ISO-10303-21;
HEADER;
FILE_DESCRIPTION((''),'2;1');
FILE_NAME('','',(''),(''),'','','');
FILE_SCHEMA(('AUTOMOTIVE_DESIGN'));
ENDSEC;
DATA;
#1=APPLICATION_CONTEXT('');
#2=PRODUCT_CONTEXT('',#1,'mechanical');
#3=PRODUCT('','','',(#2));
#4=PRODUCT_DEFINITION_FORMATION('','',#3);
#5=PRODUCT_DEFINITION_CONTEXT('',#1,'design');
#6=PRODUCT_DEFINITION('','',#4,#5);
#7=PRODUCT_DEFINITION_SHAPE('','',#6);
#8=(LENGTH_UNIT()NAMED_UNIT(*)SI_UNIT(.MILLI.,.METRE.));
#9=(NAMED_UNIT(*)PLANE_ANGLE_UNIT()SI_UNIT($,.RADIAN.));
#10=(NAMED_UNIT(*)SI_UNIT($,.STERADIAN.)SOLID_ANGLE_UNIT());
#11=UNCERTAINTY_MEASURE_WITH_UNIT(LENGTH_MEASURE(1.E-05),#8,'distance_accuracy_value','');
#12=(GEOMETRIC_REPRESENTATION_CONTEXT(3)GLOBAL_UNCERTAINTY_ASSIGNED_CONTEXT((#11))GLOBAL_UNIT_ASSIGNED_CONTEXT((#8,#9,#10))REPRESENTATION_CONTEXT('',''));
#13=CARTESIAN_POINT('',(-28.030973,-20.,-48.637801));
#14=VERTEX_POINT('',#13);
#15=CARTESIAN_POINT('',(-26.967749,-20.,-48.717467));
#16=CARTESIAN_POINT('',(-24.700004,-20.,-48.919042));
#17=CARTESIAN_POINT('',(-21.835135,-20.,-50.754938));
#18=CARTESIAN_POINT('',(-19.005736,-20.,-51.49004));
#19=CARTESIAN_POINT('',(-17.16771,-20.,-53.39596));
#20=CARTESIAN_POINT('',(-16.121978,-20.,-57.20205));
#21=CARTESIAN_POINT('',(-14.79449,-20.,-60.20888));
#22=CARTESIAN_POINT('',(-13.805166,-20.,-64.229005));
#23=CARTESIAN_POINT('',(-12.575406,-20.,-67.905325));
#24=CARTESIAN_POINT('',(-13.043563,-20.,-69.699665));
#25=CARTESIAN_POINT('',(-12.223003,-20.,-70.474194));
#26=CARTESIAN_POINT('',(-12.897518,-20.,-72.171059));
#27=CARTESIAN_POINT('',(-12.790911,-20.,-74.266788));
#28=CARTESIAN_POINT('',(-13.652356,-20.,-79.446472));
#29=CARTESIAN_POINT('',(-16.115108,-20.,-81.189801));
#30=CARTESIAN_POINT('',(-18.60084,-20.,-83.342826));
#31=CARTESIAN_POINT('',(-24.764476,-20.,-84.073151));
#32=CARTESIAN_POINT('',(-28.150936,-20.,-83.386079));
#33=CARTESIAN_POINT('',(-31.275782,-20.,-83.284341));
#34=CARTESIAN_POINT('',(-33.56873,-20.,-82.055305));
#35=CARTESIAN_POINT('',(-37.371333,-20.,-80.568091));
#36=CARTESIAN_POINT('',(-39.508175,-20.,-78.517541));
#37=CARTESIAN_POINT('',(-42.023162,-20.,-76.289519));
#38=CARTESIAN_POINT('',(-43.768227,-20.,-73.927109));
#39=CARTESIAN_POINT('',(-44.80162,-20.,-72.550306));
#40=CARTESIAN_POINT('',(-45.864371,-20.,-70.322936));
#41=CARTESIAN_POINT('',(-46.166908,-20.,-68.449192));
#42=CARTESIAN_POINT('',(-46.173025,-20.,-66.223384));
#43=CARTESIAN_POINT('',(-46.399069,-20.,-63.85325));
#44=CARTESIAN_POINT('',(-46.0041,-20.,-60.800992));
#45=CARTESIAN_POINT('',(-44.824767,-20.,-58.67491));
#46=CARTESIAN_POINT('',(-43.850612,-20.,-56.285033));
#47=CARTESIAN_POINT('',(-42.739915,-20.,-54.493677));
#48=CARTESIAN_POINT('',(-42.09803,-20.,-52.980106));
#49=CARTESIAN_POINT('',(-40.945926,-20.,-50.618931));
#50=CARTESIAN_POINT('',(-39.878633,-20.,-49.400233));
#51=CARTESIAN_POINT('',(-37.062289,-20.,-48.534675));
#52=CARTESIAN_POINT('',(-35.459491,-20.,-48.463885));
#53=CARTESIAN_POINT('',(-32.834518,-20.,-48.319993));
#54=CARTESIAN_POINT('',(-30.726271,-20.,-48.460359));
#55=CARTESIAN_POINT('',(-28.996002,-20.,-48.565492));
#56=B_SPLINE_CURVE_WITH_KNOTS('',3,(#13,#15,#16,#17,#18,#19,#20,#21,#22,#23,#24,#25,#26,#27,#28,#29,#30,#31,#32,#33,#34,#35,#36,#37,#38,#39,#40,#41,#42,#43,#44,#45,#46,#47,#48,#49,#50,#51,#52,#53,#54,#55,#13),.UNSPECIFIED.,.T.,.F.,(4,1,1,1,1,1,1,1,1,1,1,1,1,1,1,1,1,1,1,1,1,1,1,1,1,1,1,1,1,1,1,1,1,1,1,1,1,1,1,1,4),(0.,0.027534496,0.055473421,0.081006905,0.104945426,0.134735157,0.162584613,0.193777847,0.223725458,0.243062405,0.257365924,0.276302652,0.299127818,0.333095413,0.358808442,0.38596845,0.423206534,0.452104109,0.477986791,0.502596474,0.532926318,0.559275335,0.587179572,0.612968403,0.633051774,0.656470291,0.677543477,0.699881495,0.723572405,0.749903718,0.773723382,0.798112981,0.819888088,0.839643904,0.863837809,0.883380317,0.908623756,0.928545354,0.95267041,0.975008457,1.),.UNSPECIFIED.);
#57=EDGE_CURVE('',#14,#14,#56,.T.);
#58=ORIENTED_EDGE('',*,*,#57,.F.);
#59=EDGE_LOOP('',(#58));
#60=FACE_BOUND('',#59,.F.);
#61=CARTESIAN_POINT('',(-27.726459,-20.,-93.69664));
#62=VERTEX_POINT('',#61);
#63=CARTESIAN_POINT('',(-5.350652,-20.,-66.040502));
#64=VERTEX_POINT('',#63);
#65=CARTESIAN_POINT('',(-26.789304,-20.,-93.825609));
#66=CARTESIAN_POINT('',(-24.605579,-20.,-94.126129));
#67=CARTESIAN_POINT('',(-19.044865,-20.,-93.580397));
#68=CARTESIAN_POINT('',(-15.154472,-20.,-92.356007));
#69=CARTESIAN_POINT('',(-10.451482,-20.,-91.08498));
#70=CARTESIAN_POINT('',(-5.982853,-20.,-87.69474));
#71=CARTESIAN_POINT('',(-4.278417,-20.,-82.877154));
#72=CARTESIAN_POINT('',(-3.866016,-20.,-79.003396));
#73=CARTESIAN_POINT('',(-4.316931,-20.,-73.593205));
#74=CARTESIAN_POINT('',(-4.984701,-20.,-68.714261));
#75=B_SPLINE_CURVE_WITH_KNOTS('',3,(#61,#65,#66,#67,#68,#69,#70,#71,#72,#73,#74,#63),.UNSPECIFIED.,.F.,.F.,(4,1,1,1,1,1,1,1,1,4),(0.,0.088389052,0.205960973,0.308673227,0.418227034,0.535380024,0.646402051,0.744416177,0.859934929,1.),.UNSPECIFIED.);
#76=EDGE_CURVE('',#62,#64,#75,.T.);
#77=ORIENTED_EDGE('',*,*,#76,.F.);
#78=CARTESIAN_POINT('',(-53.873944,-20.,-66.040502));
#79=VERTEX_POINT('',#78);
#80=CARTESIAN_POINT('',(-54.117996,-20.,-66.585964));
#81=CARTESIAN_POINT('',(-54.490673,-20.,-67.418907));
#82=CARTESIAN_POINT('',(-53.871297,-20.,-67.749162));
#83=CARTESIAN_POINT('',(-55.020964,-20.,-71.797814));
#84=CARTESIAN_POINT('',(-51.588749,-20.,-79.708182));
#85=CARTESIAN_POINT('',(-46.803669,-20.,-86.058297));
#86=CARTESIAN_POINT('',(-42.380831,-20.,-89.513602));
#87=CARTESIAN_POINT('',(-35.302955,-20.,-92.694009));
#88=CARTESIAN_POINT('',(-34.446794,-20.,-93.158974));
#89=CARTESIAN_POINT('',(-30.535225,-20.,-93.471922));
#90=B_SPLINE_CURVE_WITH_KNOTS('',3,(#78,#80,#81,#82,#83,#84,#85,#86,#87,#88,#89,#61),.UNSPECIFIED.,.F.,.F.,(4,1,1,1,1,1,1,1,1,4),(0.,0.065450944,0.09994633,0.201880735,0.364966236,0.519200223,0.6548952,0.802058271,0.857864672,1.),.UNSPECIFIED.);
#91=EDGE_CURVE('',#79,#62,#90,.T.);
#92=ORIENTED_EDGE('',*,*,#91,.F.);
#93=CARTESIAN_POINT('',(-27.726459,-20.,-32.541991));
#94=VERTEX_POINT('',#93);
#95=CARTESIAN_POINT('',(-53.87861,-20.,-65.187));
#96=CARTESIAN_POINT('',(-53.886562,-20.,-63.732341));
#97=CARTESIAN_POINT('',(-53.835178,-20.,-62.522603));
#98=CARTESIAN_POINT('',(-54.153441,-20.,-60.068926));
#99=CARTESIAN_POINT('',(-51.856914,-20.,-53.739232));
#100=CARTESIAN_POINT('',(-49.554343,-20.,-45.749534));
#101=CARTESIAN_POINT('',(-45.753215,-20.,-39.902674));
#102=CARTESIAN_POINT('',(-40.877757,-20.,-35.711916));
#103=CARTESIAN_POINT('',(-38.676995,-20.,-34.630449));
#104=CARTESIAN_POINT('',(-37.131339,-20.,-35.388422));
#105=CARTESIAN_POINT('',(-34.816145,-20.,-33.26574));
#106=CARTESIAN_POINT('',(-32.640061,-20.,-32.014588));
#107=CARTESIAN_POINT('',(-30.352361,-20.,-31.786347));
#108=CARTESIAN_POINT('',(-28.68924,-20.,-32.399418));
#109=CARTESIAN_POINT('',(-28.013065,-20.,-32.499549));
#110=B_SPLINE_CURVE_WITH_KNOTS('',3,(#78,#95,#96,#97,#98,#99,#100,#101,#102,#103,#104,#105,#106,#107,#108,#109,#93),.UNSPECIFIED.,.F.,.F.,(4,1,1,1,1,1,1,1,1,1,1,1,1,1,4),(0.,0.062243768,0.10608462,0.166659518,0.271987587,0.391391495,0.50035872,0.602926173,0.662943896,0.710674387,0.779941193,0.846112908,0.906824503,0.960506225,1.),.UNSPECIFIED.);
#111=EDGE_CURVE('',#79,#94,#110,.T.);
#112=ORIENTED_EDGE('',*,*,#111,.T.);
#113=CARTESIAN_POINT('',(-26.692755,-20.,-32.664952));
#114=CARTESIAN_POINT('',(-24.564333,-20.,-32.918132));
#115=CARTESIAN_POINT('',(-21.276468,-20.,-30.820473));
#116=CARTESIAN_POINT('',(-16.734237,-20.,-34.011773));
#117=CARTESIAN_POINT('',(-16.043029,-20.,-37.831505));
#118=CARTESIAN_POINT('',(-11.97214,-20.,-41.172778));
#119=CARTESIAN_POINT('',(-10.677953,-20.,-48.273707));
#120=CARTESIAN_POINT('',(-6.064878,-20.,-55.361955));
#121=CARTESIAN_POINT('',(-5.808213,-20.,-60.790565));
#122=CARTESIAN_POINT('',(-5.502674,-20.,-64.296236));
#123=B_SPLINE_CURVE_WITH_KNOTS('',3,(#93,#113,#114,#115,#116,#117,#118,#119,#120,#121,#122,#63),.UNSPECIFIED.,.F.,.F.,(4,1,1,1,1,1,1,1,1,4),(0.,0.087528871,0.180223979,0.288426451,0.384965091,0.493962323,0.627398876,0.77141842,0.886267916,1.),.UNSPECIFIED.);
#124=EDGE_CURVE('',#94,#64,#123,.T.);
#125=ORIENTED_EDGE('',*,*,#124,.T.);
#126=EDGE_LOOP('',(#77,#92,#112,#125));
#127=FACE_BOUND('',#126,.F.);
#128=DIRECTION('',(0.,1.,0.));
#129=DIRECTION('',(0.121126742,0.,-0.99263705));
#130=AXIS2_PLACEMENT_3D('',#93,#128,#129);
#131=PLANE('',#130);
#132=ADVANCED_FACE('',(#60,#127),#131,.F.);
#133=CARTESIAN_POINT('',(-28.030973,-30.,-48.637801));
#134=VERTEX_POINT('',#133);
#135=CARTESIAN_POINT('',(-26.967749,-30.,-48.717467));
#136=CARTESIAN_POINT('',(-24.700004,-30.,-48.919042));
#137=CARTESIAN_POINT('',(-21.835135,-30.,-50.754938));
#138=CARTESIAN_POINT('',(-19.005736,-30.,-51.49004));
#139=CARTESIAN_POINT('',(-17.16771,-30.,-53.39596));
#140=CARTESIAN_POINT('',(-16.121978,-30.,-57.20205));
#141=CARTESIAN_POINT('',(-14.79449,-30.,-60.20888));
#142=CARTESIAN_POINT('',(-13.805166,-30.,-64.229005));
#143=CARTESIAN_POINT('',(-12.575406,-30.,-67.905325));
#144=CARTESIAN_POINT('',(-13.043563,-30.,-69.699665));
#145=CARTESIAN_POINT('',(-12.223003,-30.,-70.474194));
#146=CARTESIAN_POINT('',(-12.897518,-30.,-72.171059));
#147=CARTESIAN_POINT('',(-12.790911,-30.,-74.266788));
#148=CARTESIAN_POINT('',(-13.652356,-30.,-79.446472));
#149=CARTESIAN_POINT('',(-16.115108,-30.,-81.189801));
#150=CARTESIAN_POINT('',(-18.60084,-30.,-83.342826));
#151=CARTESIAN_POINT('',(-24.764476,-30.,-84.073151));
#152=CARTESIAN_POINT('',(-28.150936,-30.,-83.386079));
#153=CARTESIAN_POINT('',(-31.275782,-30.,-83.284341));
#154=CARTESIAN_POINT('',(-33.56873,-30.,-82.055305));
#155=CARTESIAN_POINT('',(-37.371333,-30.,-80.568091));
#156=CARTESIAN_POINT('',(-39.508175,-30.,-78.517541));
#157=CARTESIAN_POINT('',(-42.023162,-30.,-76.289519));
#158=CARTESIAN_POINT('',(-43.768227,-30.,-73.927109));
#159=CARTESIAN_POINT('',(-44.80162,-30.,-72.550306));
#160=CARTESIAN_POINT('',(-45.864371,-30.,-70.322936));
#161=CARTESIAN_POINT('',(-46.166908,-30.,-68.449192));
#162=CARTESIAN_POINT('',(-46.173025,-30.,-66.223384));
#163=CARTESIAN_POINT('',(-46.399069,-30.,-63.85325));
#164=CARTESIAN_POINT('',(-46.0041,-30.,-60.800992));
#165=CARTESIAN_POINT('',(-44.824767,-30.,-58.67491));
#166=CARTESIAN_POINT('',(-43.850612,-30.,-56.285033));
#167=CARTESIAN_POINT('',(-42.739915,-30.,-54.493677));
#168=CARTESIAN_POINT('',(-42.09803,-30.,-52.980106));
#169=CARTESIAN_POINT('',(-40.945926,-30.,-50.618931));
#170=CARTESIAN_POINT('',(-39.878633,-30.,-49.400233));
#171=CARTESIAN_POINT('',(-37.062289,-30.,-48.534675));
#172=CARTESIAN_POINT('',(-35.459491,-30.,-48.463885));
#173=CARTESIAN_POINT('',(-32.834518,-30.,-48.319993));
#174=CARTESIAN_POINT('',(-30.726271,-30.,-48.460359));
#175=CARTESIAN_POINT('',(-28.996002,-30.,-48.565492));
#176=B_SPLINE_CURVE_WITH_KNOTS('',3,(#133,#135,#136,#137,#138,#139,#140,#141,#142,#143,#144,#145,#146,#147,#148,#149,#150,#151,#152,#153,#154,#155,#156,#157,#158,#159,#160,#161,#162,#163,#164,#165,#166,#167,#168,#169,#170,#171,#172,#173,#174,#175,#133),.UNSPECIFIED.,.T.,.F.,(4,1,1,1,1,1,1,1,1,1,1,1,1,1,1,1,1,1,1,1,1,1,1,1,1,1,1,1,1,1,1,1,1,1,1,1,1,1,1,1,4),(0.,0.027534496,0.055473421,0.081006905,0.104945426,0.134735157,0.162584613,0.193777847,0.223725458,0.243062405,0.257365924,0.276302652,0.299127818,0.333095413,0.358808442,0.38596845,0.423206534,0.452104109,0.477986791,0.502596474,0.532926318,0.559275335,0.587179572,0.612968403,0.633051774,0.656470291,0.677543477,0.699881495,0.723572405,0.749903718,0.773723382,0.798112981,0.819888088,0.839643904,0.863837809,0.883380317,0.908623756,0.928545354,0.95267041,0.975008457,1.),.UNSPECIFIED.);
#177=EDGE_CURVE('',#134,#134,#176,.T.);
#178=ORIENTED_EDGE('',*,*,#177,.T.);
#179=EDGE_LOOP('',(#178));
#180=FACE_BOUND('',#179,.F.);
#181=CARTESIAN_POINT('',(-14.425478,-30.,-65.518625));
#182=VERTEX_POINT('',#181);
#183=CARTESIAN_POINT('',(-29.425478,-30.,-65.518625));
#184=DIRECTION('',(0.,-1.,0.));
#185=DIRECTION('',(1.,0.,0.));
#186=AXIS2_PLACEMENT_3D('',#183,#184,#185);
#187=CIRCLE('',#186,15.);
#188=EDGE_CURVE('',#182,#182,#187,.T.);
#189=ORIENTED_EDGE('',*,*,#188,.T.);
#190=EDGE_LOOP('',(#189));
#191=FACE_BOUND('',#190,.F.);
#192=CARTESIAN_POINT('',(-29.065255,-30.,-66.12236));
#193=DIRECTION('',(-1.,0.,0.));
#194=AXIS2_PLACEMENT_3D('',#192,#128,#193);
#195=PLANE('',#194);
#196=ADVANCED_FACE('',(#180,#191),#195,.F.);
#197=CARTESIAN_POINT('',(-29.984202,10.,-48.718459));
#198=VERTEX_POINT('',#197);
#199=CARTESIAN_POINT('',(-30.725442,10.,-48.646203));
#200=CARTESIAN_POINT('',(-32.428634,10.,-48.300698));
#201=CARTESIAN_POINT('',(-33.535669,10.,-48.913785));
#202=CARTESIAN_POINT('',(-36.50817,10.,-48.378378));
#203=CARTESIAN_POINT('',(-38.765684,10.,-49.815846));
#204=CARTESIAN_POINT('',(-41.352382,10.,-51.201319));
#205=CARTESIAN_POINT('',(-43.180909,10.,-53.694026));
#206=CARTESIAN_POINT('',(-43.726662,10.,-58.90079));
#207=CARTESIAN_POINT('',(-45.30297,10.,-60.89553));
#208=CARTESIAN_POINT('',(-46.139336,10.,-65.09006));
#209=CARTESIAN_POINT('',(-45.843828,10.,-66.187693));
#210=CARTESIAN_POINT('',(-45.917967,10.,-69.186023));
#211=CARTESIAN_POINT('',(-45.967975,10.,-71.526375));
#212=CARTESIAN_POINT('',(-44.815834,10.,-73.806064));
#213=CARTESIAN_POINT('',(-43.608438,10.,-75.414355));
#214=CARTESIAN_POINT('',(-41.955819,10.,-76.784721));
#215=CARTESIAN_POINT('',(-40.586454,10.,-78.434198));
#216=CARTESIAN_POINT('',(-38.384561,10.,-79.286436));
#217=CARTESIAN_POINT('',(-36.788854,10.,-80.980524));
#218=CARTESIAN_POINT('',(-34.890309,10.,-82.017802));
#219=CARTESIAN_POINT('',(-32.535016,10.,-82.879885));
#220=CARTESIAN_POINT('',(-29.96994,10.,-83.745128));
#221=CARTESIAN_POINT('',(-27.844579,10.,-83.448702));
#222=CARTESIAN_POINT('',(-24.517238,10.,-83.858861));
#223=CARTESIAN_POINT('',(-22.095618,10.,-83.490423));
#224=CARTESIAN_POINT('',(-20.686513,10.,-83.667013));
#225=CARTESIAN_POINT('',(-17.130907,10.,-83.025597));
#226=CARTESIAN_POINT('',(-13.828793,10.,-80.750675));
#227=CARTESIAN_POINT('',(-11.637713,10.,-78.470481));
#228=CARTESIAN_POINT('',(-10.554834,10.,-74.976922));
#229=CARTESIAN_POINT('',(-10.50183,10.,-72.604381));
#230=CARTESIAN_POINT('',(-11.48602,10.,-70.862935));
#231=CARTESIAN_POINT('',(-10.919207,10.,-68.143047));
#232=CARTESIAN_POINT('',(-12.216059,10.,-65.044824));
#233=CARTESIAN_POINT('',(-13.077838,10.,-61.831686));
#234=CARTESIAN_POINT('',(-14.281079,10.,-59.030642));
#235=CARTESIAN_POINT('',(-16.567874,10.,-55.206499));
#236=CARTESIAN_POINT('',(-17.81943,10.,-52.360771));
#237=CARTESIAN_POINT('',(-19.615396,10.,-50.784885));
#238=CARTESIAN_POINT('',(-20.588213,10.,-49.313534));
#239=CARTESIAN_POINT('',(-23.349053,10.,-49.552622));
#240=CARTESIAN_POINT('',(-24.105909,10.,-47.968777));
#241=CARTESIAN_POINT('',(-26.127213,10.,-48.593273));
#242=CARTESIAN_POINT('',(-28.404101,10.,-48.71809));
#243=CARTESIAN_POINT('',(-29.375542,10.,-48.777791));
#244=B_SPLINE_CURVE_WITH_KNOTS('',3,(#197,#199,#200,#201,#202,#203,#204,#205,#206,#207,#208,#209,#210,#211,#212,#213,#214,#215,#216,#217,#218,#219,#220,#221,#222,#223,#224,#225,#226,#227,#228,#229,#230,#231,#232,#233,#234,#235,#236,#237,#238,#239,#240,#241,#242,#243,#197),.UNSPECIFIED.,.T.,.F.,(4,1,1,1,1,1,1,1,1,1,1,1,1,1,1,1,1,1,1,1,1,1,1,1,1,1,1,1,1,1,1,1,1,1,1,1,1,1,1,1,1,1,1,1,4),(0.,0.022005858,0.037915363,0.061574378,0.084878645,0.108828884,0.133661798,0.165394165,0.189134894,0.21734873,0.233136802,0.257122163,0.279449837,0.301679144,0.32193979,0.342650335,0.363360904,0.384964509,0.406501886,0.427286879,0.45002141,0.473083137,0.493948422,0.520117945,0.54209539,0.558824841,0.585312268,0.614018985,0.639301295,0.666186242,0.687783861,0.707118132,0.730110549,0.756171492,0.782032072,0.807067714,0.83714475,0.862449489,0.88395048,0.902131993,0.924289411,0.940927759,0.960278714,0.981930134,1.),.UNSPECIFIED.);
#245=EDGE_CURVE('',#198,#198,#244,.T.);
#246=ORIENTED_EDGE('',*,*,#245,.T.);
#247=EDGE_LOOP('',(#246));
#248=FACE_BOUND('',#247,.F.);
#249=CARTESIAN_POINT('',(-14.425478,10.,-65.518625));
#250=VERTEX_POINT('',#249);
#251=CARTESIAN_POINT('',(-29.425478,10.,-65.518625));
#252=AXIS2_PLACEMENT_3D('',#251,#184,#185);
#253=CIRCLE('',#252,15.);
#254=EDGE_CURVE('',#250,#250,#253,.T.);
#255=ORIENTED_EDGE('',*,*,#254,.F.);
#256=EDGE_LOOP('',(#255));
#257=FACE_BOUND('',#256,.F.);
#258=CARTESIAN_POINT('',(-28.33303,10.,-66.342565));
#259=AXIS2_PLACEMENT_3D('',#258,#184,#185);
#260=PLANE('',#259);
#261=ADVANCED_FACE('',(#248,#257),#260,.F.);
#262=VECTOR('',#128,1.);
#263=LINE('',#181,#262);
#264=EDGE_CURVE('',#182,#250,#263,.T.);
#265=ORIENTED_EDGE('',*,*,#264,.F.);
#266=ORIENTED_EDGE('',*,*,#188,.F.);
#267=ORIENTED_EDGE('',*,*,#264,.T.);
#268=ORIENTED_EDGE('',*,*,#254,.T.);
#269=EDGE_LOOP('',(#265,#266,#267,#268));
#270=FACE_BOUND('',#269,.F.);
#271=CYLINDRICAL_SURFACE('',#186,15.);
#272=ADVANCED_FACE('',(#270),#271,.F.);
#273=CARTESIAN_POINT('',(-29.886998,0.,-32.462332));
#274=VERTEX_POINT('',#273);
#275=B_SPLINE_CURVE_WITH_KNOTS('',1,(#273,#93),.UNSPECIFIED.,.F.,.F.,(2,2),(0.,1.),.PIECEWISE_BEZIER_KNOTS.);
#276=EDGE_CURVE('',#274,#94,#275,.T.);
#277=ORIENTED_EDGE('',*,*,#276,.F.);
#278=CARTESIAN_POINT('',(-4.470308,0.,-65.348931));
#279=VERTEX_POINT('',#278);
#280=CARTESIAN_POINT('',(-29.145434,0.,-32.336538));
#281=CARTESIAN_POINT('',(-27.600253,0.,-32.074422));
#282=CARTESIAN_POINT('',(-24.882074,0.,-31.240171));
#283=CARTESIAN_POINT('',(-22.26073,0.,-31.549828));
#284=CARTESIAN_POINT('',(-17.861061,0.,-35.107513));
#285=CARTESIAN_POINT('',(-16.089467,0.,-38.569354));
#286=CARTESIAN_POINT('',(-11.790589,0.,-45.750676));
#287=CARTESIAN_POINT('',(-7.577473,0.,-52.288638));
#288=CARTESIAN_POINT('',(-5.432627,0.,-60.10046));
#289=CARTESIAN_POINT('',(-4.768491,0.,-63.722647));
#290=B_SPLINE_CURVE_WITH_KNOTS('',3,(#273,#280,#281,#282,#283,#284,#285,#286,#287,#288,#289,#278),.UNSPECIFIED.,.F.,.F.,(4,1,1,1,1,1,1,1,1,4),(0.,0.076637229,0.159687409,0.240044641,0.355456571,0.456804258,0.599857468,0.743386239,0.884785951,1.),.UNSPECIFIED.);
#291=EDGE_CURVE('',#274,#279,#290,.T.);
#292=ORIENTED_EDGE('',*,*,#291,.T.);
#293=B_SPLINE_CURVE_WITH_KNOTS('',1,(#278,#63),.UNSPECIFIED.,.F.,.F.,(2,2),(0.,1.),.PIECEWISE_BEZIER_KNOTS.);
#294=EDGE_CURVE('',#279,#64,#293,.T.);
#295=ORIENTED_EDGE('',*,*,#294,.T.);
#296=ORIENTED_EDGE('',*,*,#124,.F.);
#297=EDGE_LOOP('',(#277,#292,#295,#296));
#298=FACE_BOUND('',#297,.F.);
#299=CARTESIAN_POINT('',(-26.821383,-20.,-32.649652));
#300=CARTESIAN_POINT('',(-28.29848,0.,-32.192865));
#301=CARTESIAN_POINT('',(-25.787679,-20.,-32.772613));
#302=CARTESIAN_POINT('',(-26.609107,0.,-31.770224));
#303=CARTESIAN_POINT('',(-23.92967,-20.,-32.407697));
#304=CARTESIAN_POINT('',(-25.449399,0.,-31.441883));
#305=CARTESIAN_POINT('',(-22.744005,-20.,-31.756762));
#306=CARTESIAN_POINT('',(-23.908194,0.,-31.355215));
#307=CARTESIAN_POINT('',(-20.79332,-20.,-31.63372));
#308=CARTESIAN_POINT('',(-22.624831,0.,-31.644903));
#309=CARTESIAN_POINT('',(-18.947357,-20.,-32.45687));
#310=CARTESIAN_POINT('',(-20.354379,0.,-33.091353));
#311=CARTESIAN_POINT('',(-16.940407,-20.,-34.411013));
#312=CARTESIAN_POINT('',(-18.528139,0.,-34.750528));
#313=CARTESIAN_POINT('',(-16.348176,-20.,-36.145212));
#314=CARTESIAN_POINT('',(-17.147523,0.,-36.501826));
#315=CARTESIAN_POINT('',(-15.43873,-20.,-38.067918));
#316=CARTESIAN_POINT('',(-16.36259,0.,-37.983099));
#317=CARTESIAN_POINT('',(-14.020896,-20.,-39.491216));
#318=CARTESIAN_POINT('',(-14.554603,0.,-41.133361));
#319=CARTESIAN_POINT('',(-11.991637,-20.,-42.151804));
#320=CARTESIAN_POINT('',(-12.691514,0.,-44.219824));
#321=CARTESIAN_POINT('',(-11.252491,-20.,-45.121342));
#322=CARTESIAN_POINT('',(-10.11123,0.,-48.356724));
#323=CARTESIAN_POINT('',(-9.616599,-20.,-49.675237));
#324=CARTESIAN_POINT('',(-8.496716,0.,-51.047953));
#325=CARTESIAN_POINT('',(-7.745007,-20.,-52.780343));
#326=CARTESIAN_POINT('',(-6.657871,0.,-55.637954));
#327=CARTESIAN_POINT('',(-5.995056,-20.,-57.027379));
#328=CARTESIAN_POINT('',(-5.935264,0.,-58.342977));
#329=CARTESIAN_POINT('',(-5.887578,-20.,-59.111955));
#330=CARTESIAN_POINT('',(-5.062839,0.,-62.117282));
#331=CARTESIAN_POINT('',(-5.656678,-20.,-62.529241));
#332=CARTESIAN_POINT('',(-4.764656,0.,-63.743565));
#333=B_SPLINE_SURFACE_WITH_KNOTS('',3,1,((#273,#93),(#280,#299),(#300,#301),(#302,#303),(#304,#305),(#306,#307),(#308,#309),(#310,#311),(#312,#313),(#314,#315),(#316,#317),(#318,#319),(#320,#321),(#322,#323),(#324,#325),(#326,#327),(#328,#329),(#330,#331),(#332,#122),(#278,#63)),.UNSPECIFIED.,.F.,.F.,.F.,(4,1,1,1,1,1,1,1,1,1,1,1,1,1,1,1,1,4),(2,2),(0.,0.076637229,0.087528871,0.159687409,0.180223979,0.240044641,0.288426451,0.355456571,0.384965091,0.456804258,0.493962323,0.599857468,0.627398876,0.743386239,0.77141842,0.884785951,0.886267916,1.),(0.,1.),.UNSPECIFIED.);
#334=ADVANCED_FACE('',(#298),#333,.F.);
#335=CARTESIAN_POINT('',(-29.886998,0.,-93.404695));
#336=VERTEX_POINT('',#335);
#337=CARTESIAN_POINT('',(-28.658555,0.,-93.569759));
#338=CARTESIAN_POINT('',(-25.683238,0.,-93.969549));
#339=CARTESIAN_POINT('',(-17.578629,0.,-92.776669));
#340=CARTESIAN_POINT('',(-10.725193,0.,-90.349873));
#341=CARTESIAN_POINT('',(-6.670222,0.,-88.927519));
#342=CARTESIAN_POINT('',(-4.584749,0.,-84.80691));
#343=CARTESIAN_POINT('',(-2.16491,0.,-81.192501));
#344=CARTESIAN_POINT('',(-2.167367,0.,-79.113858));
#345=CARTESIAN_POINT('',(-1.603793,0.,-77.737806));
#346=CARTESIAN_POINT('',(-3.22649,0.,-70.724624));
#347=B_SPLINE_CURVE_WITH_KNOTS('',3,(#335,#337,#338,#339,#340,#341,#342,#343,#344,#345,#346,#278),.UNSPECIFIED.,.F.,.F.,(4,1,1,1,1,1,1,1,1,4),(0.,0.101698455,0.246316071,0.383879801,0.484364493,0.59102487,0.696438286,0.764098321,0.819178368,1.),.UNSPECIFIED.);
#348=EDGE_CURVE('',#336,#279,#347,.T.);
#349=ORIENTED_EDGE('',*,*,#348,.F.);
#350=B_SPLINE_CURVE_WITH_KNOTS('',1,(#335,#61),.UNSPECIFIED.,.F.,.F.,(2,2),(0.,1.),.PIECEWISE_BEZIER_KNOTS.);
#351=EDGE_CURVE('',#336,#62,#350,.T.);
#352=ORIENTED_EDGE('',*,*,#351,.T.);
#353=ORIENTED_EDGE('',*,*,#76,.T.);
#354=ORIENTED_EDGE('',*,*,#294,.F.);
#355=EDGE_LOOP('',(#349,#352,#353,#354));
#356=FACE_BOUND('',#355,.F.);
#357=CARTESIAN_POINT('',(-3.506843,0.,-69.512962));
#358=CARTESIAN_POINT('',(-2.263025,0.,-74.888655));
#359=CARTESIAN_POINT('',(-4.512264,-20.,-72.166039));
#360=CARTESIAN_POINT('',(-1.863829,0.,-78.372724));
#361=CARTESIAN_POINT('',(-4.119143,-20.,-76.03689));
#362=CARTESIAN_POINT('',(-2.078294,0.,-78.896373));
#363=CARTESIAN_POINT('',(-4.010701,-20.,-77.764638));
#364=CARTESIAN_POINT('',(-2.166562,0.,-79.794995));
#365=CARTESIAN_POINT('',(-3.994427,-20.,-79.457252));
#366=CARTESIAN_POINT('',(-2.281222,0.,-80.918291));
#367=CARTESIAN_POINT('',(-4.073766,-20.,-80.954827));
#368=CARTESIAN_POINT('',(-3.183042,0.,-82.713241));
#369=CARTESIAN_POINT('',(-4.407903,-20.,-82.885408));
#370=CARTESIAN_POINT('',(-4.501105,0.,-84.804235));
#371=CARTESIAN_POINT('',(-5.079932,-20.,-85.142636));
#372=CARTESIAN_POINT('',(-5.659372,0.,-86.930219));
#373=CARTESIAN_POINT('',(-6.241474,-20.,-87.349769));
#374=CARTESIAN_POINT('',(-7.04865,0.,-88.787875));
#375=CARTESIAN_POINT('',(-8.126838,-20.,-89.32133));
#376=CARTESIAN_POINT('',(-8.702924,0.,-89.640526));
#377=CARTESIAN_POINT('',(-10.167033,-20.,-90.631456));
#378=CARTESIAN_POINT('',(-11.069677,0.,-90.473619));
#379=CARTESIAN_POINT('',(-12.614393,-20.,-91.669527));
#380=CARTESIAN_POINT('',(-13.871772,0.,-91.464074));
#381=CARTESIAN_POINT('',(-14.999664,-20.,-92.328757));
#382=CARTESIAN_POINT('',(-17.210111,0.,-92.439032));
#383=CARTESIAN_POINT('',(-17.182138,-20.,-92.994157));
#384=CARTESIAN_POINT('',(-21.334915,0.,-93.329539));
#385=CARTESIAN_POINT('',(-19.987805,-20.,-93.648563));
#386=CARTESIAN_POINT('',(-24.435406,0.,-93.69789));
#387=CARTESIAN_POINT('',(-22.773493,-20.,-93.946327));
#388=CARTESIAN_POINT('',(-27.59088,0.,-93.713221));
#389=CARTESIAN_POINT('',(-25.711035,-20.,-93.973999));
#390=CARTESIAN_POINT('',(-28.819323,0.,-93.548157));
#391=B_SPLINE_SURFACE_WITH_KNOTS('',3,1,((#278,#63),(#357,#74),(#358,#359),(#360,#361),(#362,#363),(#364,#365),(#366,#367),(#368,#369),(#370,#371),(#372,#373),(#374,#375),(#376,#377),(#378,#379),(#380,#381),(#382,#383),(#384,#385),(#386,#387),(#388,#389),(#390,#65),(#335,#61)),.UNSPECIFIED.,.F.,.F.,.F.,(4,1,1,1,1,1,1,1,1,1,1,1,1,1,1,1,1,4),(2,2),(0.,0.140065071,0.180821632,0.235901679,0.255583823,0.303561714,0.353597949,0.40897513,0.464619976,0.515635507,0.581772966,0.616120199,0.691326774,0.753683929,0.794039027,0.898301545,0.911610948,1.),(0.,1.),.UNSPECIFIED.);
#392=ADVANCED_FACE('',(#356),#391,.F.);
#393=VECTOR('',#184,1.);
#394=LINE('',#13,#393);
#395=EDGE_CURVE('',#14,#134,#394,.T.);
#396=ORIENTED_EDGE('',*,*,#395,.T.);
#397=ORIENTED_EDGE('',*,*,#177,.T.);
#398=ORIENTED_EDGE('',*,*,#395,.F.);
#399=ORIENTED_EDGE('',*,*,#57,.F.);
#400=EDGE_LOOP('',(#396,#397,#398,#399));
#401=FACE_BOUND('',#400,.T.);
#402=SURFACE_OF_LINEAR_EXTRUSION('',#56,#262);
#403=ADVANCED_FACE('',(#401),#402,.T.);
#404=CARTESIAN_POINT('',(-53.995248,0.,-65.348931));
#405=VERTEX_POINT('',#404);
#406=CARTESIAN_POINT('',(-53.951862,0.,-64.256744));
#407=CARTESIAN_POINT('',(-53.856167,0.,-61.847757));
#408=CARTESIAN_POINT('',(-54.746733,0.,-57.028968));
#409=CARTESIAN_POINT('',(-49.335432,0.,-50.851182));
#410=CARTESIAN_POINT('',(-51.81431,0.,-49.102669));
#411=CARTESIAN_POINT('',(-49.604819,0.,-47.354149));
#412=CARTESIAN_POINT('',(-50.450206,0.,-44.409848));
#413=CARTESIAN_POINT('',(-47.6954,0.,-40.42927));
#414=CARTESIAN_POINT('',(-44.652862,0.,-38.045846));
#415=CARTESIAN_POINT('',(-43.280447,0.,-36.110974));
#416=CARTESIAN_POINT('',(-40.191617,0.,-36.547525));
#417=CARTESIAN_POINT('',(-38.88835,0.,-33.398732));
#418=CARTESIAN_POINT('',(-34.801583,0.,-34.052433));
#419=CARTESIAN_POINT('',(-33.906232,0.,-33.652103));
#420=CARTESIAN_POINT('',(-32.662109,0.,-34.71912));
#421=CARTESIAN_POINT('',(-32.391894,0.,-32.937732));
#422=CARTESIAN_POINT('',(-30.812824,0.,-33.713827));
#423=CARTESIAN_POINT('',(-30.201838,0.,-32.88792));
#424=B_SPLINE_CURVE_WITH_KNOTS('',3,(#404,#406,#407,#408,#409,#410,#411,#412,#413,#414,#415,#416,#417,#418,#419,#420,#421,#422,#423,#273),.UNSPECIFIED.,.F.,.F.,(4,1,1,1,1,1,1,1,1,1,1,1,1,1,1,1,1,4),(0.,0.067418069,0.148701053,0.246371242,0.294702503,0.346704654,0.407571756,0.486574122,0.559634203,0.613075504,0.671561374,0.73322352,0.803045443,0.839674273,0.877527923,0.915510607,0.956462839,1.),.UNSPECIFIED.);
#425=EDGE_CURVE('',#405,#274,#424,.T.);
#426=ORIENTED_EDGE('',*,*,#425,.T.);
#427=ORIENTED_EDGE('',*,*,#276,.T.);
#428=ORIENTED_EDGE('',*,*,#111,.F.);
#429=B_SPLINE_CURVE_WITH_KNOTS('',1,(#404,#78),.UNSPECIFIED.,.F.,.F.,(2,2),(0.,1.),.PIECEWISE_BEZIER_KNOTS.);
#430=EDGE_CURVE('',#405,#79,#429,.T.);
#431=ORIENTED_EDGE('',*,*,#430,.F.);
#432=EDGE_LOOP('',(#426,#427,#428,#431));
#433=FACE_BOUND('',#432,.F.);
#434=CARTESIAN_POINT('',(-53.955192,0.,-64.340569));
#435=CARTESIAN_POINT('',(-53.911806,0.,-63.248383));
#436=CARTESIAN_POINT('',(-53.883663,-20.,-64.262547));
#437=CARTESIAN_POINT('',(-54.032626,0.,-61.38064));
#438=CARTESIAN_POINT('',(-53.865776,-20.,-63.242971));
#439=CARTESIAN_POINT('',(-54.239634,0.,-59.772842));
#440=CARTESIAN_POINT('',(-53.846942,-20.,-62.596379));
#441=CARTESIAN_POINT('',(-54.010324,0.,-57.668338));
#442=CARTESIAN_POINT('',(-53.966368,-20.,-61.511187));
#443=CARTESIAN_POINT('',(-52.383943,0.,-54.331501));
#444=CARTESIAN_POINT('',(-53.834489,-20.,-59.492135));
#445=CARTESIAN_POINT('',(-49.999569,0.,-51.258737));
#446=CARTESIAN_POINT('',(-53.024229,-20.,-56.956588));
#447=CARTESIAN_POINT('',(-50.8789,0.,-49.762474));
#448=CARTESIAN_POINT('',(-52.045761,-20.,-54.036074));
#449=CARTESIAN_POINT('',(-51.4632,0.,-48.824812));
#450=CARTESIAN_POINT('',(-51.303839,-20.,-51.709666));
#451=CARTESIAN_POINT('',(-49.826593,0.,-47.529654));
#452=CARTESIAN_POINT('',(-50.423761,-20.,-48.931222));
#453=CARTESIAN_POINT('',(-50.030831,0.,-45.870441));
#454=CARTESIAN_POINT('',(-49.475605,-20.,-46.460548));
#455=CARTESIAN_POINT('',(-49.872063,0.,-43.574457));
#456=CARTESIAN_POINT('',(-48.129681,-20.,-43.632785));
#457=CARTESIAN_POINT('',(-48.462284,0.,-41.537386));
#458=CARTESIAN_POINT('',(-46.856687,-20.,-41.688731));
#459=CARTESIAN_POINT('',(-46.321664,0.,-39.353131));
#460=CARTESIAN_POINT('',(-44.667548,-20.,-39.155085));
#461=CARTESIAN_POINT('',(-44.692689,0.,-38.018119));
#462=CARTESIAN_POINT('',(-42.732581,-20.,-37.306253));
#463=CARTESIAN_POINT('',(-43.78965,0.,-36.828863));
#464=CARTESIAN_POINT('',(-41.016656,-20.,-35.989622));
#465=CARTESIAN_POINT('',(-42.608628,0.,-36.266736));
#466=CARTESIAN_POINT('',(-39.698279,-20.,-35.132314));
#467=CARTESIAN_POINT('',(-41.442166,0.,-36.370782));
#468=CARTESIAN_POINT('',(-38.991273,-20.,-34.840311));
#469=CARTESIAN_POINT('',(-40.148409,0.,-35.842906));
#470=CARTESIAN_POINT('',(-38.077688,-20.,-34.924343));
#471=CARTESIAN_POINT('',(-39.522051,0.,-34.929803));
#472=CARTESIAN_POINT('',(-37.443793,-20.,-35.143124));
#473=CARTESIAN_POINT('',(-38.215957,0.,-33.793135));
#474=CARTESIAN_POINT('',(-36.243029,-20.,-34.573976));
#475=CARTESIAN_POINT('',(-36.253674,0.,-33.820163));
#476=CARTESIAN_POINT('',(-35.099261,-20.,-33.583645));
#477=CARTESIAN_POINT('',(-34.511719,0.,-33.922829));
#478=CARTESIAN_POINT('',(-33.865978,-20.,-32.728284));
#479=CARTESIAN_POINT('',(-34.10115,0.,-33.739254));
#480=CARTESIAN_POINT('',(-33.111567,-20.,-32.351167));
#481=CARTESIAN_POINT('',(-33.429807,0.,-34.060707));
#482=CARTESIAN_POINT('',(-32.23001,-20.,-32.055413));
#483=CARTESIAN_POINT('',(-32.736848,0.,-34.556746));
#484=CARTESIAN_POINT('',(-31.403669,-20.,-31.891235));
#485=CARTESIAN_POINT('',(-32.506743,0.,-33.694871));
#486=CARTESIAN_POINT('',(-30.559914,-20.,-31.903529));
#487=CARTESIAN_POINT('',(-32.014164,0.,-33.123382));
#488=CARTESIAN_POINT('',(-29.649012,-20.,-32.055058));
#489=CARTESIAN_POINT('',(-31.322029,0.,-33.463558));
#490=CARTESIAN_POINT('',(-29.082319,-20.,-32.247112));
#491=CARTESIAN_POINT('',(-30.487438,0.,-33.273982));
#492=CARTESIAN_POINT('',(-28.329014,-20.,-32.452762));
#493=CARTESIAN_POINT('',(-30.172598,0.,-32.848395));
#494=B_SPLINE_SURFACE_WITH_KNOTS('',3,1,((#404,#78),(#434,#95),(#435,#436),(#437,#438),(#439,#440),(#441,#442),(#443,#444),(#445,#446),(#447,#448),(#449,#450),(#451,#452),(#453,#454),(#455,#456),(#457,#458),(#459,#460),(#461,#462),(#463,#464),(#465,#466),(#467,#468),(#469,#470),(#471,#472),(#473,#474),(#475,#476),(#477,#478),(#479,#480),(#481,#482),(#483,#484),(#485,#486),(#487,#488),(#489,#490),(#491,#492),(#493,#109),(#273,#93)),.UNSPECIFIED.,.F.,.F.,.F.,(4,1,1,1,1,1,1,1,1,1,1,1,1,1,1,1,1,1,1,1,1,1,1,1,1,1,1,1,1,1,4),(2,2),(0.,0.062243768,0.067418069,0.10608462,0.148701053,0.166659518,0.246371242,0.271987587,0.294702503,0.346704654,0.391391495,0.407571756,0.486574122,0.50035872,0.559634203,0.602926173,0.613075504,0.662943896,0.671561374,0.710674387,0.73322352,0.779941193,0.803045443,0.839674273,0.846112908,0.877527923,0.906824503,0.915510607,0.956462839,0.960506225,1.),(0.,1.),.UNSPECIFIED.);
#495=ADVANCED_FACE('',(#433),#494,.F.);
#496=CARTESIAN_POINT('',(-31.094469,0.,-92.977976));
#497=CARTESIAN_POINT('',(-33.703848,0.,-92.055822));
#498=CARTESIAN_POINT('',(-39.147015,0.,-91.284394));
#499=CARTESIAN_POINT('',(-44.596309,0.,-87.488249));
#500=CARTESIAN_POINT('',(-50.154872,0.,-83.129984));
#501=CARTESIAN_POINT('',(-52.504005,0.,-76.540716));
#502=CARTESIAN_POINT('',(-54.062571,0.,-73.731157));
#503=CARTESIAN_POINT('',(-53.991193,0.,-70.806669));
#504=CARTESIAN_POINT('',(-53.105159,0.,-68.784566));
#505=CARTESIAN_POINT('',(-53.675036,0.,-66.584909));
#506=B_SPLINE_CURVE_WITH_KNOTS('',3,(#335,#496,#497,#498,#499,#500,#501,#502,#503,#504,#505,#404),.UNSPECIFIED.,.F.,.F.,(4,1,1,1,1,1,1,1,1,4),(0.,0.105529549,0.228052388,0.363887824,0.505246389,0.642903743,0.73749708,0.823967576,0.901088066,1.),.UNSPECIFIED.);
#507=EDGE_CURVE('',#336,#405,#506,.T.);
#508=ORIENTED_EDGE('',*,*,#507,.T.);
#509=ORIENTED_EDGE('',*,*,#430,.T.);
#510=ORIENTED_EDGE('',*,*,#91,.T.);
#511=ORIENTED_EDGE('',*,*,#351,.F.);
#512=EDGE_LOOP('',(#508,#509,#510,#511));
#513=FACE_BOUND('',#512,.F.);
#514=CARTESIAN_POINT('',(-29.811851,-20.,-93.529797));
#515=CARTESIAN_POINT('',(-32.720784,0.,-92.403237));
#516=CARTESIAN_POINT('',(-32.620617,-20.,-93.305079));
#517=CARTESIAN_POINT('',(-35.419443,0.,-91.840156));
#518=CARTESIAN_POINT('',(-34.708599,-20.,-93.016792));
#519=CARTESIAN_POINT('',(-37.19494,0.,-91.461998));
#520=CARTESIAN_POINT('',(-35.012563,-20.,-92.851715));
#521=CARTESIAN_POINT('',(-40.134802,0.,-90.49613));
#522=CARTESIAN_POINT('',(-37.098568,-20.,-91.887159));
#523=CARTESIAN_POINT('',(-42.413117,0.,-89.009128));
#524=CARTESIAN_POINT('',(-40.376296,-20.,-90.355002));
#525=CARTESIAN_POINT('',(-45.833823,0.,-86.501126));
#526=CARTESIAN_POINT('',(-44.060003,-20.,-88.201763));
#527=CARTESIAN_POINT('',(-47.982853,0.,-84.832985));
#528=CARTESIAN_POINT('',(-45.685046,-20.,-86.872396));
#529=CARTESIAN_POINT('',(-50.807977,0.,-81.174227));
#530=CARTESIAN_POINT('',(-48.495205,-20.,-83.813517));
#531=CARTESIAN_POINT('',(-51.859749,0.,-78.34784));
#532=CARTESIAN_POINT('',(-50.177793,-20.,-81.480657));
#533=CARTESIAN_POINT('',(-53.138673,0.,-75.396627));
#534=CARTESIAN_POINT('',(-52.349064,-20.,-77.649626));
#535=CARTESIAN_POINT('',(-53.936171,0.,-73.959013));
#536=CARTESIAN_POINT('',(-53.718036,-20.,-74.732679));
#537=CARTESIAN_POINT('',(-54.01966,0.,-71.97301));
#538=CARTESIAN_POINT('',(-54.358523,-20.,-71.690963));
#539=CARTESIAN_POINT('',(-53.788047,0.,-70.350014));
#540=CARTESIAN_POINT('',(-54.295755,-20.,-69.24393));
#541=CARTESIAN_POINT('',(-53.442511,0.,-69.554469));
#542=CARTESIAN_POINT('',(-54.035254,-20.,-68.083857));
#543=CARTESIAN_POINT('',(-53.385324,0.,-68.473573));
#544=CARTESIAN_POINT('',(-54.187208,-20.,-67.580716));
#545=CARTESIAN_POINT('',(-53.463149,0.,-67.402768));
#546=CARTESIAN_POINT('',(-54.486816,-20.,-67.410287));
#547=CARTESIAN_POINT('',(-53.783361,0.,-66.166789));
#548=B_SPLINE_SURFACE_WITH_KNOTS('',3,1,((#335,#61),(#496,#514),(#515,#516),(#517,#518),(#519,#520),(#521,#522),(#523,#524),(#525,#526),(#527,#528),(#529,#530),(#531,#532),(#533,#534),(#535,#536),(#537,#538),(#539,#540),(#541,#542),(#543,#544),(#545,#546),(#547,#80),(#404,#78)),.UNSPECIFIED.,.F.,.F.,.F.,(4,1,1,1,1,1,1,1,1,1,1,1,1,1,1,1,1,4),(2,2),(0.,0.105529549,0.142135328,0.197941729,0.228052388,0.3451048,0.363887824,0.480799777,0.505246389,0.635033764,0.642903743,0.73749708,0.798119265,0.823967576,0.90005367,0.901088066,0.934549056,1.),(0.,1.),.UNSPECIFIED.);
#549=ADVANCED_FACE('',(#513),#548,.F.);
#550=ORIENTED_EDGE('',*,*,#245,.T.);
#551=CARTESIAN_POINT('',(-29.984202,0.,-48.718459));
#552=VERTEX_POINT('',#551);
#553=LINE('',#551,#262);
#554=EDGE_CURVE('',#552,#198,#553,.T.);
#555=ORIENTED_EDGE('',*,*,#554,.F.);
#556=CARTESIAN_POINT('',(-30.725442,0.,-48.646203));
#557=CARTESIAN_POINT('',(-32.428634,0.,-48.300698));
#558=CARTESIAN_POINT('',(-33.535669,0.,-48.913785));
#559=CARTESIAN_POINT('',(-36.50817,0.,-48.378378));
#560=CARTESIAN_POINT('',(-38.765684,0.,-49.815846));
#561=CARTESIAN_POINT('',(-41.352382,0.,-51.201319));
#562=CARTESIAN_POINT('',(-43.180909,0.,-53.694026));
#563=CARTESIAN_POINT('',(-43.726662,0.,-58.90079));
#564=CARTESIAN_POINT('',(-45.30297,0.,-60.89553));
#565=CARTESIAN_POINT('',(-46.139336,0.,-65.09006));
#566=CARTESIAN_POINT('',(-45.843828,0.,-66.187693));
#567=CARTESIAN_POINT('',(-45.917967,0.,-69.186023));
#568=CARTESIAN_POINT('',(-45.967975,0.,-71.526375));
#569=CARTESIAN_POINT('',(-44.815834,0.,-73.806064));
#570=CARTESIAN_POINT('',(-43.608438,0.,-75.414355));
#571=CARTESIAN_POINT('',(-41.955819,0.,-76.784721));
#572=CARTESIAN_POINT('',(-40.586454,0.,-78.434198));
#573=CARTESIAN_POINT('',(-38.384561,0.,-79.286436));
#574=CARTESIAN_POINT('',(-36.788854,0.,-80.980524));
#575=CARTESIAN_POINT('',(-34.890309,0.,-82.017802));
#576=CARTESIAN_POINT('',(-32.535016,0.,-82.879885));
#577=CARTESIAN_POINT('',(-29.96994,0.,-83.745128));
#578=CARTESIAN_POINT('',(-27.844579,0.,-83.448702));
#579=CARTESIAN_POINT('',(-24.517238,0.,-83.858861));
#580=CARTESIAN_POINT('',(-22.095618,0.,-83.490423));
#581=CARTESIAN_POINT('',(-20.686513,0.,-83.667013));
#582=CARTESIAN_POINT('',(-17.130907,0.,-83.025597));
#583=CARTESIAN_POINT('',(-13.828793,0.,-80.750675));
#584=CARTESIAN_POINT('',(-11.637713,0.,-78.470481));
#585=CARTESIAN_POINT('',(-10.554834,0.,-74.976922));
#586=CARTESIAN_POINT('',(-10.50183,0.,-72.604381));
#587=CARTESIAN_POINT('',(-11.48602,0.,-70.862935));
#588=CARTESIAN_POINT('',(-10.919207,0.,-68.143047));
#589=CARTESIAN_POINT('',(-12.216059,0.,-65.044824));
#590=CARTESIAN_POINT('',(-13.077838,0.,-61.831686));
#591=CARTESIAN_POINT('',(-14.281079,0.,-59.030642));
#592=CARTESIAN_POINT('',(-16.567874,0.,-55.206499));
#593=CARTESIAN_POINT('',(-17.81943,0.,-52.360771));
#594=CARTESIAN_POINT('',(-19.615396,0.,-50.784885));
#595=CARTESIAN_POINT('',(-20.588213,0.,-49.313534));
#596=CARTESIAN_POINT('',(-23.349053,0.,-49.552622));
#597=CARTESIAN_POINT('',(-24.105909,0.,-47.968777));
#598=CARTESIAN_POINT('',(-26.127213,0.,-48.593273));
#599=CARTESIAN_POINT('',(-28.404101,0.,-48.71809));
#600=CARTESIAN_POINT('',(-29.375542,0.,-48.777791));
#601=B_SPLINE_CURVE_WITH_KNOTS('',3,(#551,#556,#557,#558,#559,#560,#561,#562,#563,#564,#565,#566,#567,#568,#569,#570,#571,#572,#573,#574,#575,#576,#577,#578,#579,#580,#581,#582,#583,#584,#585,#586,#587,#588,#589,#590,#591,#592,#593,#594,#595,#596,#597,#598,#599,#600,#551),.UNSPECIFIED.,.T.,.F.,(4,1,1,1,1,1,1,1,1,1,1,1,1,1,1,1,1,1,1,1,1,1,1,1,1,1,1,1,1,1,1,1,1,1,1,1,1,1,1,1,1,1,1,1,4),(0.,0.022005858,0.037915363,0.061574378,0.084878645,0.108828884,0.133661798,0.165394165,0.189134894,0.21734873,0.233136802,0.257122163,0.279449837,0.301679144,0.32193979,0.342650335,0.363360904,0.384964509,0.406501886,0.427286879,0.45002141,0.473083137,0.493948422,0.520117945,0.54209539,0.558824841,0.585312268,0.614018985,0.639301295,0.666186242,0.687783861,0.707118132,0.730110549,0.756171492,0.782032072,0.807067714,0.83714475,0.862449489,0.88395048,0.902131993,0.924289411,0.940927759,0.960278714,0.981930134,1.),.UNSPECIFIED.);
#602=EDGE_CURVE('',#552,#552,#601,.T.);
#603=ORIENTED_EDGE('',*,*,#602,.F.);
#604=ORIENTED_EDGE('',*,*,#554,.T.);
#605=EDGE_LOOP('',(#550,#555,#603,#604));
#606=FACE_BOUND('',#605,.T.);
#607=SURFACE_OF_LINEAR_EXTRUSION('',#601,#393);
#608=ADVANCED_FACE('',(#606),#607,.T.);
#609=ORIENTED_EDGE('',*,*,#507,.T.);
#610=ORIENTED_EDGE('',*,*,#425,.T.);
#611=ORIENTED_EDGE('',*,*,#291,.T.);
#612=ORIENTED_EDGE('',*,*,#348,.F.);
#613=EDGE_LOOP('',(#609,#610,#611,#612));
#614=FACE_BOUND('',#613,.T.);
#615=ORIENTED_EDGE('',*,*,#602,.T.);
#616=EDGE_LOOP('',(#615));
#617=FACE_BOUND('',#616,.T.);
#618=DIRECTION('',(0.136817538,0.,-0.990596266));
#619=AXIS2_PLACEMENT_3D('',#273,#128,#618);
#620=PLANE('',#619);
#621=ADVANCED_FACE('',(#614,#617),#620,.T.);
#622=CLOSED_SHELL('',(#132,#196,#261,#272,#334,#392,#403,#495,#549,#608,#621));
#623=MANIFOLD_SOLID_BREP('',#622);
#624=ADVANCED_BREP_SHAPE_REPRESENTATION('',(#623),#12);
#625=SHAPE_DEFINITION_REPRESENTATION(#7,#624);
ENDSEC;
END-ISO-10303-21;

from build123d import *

# Parameters (mm, degrees)
F5_DEPTH = 10
F7_DEPTH = 10
F8_R     = 15
F9_DEPTH = 40.0010001


with BuildPart() as f3:
    # F1 (on Front) → F3 section 0
    with BuildSketch(Plane.XZ):
        with BuildLine():
            add(Edge.make_bspline(
                [(-29.8869982362, -32.4623323977), (-29.1454342104, -32.3365377305), (-27.6002525943, -32.0744219855), (-24.8820737344, -31.2401712171), (-22.2607302245, -31.5498284503), (-17.861061131, -35.1075133094), (-16.0894671653, -38.5693538783), (-11.7905885451, -45.7506756602), (-7.5774731076, -52.2886377841), (-5.4326274126, -60.1004601613), (-4.7684911725, -63.7226468733), (-4.4703083113, -65.3489306569)],
                knots=[0, 0, 0, 0, 0.0766372293, 0.1596874088, 0.2400446409, 0.3554565709, 0.4568042584, 0.5998574684, 0.7433862386, 0.8847859506, 1, 1, 1, 1], degree=3))
            add(Edge.make_bspline(
                [(-53.9952479303, -65.3489306569), (-53.9518618586, -64.2567443135), (-53.856167119, -61.847757199), (-54.7467327519, -57.0289684232), (-49.3354322834, -50.8511823523), (-51.8143096622, -49.102668942), (-49.6048191079, -47.3541485723), (-50.450205518, -44.4098484291), (-47.6953996375, -40.4292702371), (-44.6528623404, -38.0458462601), (-43.280447403, -36.110973699), (-40.1916173946, -36.5475254819), (-38.8883495333, -33.3987319671), (-34.8015832597, -34.0524331226), (-33.9062322549, -33.6521026419), (-32.6621088582, -34.7191199705), (-32.3918943522, -32.937732067), (-30.8128240347, -33.7138268018), (-30.2018378219, -32.8879199978), (-29.8869982362, -32.4623323977)],
                knots=[0, 0, 0, 0, 0.0674180688, 0.1487010526, 0.2463712417, 0.294702503, 0.3467046537, 0.4075717558, 0.486574122, 0.559634203, 0.6130755042, 0.6715613738, 0.73322352, 0.8030454427, 0.8396742729, 0.8775279227, 0.9155106073, 0.9564628385, 1, 1, 1, 1], degree=3))
            add(Edge.make_bspline(
                [(-29.8869982362, -93.4046953917), (-31.0944689913, -92.9779756868), (-33.7038479862, -92.0558221442), (-39.1470149181, -91.2843940714), (-44.5963092543, -87.4882494139), (-50.1548724589, -83.12998408), (-52.5040045658, -76.540715601), (-54.0625705638, -73.7311571639), (-53.99119323, -70.8066689048), (-53.1051589674, -68.7845657109), (-53.6750361551, -66.5849091325), (-53.9952479303, -65.3489306569)],
                knots=[0, 0, 0, 0, 0.1055295492, 0.228052388, 0.3638878237, 0.5052463887, 0.6429037426, 0.7374970797, 0.8239675762, 0.9010880658, 1, 1, 1, 1], degree=3))
            add(Edge.make_bspline(
                [(-29.8869982362, -93.4046953917), (-28.6585553666, -93.5697594481), (-25.6832375927, -93.9695485087), (-17.5786286134, -92.7766693082), (-10.7251932926, -90.3498725118), (-6.6702216862, -88.9275194321), (-4.5847485366, -84.8069096912), (-2.1649098776, -81.1925014104), (-2.1673667973, -79.1138577517), (-1.6037933524, -77.7378061199), (-3.2264904145, -70.7246238742), (-4.4703083113, -65.3489306569)],
                knots=[0, 0, 0, 0, 0.1016984551, 0.2463160709, 0.3838798013, 0.4843644926, 0.5910248697, 0.6964382862, 0.7640983207, 0.8191783682, 1, 1, 1, 1], degree=3))
        make_face()
    # F2 (on offset) → F3 section 1
    with BuildSketch(Plane.XZ.offset(20)):
        with BuildLine():
            add(Edge.make_bspline(
                [(-27.7264590907, -32.5419914959), (-26.6927545425, -32.6649523745), (-24.5643328545, -32.9181316812), (-21.2764676065, -30.8204734401), (-16.7342369436, -34.0117728813), (-16.0430285668, -37.8315052643), (-11.9721400593, -41.1727784056), (-10.677953466, -48.2737066707), (-6.0648776252, -55.361955179), (-5.8082127885, -60.7905654399), (-5.5026743421, -64.2962357289), (-5.3506519246, -66.0405022142)],
                knots=[0, 0, 0, 0, 0.0875288707, 0.1802239789, 0.288426451, 0.3849650911, 0.4939623227, 0.6273988759, 0.7714184201, 0.8862679156, 1, 1, 1, 1], degree=3))
            add(Edge.make_bspline(
                [(-53.8739438701, -66.0405022142), (-53.878609739, -65.1870000997), (-53.8865619719, -63.7323412645), (-53.8351779623, -62.5226029126), (-54.153441433, -60.0689258762), (-51.8569139565, -53.7392322555), (-49.5543425455, -45.7495340841), (-45.7532145552, -39.9026743034), (-40.8777568657, -35.7119160074), (-38.6769952498, -34.6304493588), (-37.1313391848, -35.3884221476), (-34.8161448017, -33.2657401865), (-32.640061129, -32.0145879715), (-30.352361243, -31.7863467416), (-28.6892395961, -32.3994177035), (-28.0130652978, -32.4995492843), (-27.7264590907, -32.5419914959)],
                knots=[0, 0, 0, 0, 0.0622437684, 0.1060846201, 0.1666595177, 0.2719875867, 0.3913914951, 0.5003587204, 0.6029261731, 0.6629438963, 0.7106743865, 0.7799411928, 0.8461129078, 0.9068245034, 0.9605062249, 1, 1, 1, 1], degree=3))
            add(Edge.make_bspline(
                [(-53.8739438701, -66.0405022142), (-54.1179957762, -66.5859640449), (-54.4906732444, -67.4189070744), (-53.871296787, -67.7491616089), (-55.0209637339, -71.797814315), (-51.5887485756, -79.7081818655), (-46.803668893, -86.0582965892), (-42.3808305131, -89.5136019514), (-35.3029549467, -92.694008863), (-34.4467935552, -93.1589739829), (-30.5352252879, -93.4719223872), (-27.7264590907, -93.6966401575)],
                knots=[0, 0, 0, 0, 0.0654509445, 0.0999463298, 0.201880735, 0.3649662362, 0.5192002228, 0.6548952004, 0.8020582711, 0.8578646724, 1, 1, 1, 1], degree=3))
            add(Edge.make_bspline(
                [(-27.7264590907, -93.6966401575), (-26.7893040391, -93.8256094389), (-24.6055792178, -94.126128996), (-19.0448645709, -93.5803967036), (-15.1544717915, -92.3560066008), (-10.4514821502, -91.0849804807), (-5.9828525048, -87.6947396456), (-4.2784170151, -82.8771537909), (-3.8660162271, -79.00339624), (-4.3169308983, -73.5932049857), (-4.9847006708, -68.7142613604), (-5.3506519246, -66.0405022142)],
                knots=[0, 0, 0, 0, 0.0883890517, 0.2059609728, 0.3086732265, 0.418227034, 0.5353800237, 0.646402051, 0.7444161766, 0.859934929, 1, 1, 1, 1], degree=3))
        make_face()
    loft()

    # F4 (on Front) → F5 (join)
    with BuildSketch(Plane.XZ):
        with BuildLine():
            add(Edge.make_bspline(
                [(-29.9842024493, -48.7184589025), (-30.7254417992, -48.646203242), (-32.4286343117, -48.3006980151), (-33.5356694796, -48.9137852411), (-36.5081701837, -48.3783781938), (-38.7656835043, -49.8158461171), (-41.3523822873, -51.2013188797), (-43.1809087059, -53.6940258037), (-43.7266615491, -58.9007900123), (-45.3029697513, -60.8955296665), (-46.1393359639, -65.0900595483), (-45.8438276319, -66.1876930471), (-45.9179674669, -69.1860226743), (-45.9679749277, -71.526375284), (-44.8158335134, -73.8060644488), (-43.6084381457, -75.4143545638), (-41.9558191831, -76.7847207574), (-40.5864539733, -78.4341983794), (-38.3845613295, -79.2864357781), (-36.7888539306, -80.9805238739), (-34.8903086641, -82.0178022316), (-32.5350159094, -82.8798853206), (-29.9699397322, -83.7451279248), (-27.8445786967, -83.4487015058), (-24.5172375279, -83.8588609235), (-22.0956181522, -83.4904231371), (-20.6865132587, -83.6670125137), (-17.1309069357, -83.0255974915), (-13.828793109, -80.7506745544), (-11.6377134683, -78.4704806236), (-10.5548343709, -74.97692198), (-10.5018300452, -72.6043810584), (-11.4860204811, -70.8629346857), (-10.9192066866, -68.1430469881), (-12.2160588095, -65.044824208), (-13.077838029, -61.8316862321), (-14.2810786104, -59.0306423188), (-16.5678738451, -55.206498712), (-17.8194298205, -52.360770905), (-19.6153959285, -50.7848849207), (-20.5882129775, -49.3135343708), (-23.3490527717, -49.5526223218), (-24.1059093812, -47.9687768923), (-26.1272133088, -48.5932731147), (-28.4041006258, -48.7180898059), (-29.3755419828, -48.7777908362), (-29.9842024493, -48.7184589025)],
                knots=[0, 0, 0, 0, 0.0220058584, 0.0379153628, 0.0615743781, 0.0848786449, 0.1088288844, 0.1336617977, 0.1653941652, 0.1891348935, 0.2173487297, 0.2331368023, 0.257122163, 0.2794498369, 0.3016791436, 0.3219397903, 0.342650335, 0.3633609038, 0.3849645089, 0.406501886, 0.4272868795, 0.4500214102, 0.4730831373, 0.4939484218, 0.5201179449, 0.5420953904, 0.5588248406, 0.5853122681, 0.6140189845, 0.6393012947, 0.6661862423, 0.6877838612, 0.7071181322, 0.7301105491, 0.7561714917, 0.782032072, 0.8070677138, 0.83714475, 0.8624494887, 0.8839504801, 0.9021319935, 0.9242894114, 0.9409277587, 0.9602787139, 0.9819301336, 1, 1, 1, 1], degree=3))
        make_face()
    extrude(amount=-F5_DEPTH)

    # F6 (on offset) → F7 (join)
    with BuildSketch(Plane.XZ.offset(20)):
        with BuildLine():
            add(Edge.make_bspline(
                [(-28.030972528, -48.6378008289), (-26.9677488538, -48.7174669548), (-24.7000035958, -48.9190418787), (-21.8351351719, -50.7549380595), (-19.0057363303, -51.4900401711), (-17.1677101368, -53.3959597941), (-16.1219780311, -57.2020497695), (-14.7944898302, -60.2088802285), (-13.8051664389, -64.2290050469), (-12.5754061512, -67.9053247738), (-13.0435626444, -69.6996645759), (-12.2230026267, -70.4741935563), (-12.8975177677, -72.1710593324), (-12.790910983, -74.2667877217), (-13.6523562713, -79.4464716571), (-16.1151079262, -81.1898007259), (-18.6008396396, -83.3428255078), (-24.7644755697, -84.0731508163), (-28.1509356864, -83.3860792874), (-31.2757822453, -83.2843409202), (-33.5687302184, -82.0553045162), (-37.371332907, -80.5680907776), (-39.5081745923, -78.5175407755), (-42.0231618823, -76.2895191944), (-43.7682265866, -73.9271086171), (-44.8016202457, -72.5503057808), (-45.8643708398, -70.3229359676), (-46.1669084572, -68.449191605), (-46.1730253085, -66.2233835723), (-46.3990690027, -63.8532497522), (-46.0041003101, -60.8009922356), (-44.8247674816, -58.6749101038), (-43.8506124137, -56.285033073), (-42.7399154431, -54.493676553), (-42.0980299568, -52.9801058083), (-40.9459258478, -50.6189312745), (-39.8786333225, -49.4002326481), (-37.0622885237, -48.5346745769), (-35.459490967, -48.4638854863), (-32.834517708, -48.3199928566), (-30.7262709818, -48.4603590557), (-28.9960019981, -48.5654922816), (-28.030972528, -48.6378008289)],
                knots=[0, 0, 0, 0, 0.0275344965, 0.0554734206, 0.0810069054, 0.1049454258, 0.1347351565, 0.1625846134, 0.1937778472, 0.2237254583, 0.2430624049, 0.2573659241, 0.2763026524, 0.2991278175, 0.333095413, 0.3588084425, 0.3859684502, 0.4232065338, 0.4521041092, 0.477986791, 0.5025964735, 0.5329263181, 0.5592753351, 0.5871795723, 0.6129684031, 0.633051774, 0.6564702911, 0.6775434766, 0.6998814952, 0.7235724049, 0.7499037179, 0.7737233823, 0.7981129806, 0.8198880877, 0.8396439043, 0.8638378086, 0.8833803172, 0.9086237559, 0.9285453543, 0.9526704099, 0.9750084566, 1, 1, 1, 1], degree=3))
        make_face()
    extrude(amount=F7_DEPTH)

    # F8 (on face) → F9 (cut, through all)
    with BuildSketch(Plane.XZ.offset(30)):
        with Locations((-29.425477609, -65.5186250806)):
            Circle(F8_R)
    extrude(amount=-F9_DEPTH, mode=Mode.SUBTRACT)


solid = f3.part
